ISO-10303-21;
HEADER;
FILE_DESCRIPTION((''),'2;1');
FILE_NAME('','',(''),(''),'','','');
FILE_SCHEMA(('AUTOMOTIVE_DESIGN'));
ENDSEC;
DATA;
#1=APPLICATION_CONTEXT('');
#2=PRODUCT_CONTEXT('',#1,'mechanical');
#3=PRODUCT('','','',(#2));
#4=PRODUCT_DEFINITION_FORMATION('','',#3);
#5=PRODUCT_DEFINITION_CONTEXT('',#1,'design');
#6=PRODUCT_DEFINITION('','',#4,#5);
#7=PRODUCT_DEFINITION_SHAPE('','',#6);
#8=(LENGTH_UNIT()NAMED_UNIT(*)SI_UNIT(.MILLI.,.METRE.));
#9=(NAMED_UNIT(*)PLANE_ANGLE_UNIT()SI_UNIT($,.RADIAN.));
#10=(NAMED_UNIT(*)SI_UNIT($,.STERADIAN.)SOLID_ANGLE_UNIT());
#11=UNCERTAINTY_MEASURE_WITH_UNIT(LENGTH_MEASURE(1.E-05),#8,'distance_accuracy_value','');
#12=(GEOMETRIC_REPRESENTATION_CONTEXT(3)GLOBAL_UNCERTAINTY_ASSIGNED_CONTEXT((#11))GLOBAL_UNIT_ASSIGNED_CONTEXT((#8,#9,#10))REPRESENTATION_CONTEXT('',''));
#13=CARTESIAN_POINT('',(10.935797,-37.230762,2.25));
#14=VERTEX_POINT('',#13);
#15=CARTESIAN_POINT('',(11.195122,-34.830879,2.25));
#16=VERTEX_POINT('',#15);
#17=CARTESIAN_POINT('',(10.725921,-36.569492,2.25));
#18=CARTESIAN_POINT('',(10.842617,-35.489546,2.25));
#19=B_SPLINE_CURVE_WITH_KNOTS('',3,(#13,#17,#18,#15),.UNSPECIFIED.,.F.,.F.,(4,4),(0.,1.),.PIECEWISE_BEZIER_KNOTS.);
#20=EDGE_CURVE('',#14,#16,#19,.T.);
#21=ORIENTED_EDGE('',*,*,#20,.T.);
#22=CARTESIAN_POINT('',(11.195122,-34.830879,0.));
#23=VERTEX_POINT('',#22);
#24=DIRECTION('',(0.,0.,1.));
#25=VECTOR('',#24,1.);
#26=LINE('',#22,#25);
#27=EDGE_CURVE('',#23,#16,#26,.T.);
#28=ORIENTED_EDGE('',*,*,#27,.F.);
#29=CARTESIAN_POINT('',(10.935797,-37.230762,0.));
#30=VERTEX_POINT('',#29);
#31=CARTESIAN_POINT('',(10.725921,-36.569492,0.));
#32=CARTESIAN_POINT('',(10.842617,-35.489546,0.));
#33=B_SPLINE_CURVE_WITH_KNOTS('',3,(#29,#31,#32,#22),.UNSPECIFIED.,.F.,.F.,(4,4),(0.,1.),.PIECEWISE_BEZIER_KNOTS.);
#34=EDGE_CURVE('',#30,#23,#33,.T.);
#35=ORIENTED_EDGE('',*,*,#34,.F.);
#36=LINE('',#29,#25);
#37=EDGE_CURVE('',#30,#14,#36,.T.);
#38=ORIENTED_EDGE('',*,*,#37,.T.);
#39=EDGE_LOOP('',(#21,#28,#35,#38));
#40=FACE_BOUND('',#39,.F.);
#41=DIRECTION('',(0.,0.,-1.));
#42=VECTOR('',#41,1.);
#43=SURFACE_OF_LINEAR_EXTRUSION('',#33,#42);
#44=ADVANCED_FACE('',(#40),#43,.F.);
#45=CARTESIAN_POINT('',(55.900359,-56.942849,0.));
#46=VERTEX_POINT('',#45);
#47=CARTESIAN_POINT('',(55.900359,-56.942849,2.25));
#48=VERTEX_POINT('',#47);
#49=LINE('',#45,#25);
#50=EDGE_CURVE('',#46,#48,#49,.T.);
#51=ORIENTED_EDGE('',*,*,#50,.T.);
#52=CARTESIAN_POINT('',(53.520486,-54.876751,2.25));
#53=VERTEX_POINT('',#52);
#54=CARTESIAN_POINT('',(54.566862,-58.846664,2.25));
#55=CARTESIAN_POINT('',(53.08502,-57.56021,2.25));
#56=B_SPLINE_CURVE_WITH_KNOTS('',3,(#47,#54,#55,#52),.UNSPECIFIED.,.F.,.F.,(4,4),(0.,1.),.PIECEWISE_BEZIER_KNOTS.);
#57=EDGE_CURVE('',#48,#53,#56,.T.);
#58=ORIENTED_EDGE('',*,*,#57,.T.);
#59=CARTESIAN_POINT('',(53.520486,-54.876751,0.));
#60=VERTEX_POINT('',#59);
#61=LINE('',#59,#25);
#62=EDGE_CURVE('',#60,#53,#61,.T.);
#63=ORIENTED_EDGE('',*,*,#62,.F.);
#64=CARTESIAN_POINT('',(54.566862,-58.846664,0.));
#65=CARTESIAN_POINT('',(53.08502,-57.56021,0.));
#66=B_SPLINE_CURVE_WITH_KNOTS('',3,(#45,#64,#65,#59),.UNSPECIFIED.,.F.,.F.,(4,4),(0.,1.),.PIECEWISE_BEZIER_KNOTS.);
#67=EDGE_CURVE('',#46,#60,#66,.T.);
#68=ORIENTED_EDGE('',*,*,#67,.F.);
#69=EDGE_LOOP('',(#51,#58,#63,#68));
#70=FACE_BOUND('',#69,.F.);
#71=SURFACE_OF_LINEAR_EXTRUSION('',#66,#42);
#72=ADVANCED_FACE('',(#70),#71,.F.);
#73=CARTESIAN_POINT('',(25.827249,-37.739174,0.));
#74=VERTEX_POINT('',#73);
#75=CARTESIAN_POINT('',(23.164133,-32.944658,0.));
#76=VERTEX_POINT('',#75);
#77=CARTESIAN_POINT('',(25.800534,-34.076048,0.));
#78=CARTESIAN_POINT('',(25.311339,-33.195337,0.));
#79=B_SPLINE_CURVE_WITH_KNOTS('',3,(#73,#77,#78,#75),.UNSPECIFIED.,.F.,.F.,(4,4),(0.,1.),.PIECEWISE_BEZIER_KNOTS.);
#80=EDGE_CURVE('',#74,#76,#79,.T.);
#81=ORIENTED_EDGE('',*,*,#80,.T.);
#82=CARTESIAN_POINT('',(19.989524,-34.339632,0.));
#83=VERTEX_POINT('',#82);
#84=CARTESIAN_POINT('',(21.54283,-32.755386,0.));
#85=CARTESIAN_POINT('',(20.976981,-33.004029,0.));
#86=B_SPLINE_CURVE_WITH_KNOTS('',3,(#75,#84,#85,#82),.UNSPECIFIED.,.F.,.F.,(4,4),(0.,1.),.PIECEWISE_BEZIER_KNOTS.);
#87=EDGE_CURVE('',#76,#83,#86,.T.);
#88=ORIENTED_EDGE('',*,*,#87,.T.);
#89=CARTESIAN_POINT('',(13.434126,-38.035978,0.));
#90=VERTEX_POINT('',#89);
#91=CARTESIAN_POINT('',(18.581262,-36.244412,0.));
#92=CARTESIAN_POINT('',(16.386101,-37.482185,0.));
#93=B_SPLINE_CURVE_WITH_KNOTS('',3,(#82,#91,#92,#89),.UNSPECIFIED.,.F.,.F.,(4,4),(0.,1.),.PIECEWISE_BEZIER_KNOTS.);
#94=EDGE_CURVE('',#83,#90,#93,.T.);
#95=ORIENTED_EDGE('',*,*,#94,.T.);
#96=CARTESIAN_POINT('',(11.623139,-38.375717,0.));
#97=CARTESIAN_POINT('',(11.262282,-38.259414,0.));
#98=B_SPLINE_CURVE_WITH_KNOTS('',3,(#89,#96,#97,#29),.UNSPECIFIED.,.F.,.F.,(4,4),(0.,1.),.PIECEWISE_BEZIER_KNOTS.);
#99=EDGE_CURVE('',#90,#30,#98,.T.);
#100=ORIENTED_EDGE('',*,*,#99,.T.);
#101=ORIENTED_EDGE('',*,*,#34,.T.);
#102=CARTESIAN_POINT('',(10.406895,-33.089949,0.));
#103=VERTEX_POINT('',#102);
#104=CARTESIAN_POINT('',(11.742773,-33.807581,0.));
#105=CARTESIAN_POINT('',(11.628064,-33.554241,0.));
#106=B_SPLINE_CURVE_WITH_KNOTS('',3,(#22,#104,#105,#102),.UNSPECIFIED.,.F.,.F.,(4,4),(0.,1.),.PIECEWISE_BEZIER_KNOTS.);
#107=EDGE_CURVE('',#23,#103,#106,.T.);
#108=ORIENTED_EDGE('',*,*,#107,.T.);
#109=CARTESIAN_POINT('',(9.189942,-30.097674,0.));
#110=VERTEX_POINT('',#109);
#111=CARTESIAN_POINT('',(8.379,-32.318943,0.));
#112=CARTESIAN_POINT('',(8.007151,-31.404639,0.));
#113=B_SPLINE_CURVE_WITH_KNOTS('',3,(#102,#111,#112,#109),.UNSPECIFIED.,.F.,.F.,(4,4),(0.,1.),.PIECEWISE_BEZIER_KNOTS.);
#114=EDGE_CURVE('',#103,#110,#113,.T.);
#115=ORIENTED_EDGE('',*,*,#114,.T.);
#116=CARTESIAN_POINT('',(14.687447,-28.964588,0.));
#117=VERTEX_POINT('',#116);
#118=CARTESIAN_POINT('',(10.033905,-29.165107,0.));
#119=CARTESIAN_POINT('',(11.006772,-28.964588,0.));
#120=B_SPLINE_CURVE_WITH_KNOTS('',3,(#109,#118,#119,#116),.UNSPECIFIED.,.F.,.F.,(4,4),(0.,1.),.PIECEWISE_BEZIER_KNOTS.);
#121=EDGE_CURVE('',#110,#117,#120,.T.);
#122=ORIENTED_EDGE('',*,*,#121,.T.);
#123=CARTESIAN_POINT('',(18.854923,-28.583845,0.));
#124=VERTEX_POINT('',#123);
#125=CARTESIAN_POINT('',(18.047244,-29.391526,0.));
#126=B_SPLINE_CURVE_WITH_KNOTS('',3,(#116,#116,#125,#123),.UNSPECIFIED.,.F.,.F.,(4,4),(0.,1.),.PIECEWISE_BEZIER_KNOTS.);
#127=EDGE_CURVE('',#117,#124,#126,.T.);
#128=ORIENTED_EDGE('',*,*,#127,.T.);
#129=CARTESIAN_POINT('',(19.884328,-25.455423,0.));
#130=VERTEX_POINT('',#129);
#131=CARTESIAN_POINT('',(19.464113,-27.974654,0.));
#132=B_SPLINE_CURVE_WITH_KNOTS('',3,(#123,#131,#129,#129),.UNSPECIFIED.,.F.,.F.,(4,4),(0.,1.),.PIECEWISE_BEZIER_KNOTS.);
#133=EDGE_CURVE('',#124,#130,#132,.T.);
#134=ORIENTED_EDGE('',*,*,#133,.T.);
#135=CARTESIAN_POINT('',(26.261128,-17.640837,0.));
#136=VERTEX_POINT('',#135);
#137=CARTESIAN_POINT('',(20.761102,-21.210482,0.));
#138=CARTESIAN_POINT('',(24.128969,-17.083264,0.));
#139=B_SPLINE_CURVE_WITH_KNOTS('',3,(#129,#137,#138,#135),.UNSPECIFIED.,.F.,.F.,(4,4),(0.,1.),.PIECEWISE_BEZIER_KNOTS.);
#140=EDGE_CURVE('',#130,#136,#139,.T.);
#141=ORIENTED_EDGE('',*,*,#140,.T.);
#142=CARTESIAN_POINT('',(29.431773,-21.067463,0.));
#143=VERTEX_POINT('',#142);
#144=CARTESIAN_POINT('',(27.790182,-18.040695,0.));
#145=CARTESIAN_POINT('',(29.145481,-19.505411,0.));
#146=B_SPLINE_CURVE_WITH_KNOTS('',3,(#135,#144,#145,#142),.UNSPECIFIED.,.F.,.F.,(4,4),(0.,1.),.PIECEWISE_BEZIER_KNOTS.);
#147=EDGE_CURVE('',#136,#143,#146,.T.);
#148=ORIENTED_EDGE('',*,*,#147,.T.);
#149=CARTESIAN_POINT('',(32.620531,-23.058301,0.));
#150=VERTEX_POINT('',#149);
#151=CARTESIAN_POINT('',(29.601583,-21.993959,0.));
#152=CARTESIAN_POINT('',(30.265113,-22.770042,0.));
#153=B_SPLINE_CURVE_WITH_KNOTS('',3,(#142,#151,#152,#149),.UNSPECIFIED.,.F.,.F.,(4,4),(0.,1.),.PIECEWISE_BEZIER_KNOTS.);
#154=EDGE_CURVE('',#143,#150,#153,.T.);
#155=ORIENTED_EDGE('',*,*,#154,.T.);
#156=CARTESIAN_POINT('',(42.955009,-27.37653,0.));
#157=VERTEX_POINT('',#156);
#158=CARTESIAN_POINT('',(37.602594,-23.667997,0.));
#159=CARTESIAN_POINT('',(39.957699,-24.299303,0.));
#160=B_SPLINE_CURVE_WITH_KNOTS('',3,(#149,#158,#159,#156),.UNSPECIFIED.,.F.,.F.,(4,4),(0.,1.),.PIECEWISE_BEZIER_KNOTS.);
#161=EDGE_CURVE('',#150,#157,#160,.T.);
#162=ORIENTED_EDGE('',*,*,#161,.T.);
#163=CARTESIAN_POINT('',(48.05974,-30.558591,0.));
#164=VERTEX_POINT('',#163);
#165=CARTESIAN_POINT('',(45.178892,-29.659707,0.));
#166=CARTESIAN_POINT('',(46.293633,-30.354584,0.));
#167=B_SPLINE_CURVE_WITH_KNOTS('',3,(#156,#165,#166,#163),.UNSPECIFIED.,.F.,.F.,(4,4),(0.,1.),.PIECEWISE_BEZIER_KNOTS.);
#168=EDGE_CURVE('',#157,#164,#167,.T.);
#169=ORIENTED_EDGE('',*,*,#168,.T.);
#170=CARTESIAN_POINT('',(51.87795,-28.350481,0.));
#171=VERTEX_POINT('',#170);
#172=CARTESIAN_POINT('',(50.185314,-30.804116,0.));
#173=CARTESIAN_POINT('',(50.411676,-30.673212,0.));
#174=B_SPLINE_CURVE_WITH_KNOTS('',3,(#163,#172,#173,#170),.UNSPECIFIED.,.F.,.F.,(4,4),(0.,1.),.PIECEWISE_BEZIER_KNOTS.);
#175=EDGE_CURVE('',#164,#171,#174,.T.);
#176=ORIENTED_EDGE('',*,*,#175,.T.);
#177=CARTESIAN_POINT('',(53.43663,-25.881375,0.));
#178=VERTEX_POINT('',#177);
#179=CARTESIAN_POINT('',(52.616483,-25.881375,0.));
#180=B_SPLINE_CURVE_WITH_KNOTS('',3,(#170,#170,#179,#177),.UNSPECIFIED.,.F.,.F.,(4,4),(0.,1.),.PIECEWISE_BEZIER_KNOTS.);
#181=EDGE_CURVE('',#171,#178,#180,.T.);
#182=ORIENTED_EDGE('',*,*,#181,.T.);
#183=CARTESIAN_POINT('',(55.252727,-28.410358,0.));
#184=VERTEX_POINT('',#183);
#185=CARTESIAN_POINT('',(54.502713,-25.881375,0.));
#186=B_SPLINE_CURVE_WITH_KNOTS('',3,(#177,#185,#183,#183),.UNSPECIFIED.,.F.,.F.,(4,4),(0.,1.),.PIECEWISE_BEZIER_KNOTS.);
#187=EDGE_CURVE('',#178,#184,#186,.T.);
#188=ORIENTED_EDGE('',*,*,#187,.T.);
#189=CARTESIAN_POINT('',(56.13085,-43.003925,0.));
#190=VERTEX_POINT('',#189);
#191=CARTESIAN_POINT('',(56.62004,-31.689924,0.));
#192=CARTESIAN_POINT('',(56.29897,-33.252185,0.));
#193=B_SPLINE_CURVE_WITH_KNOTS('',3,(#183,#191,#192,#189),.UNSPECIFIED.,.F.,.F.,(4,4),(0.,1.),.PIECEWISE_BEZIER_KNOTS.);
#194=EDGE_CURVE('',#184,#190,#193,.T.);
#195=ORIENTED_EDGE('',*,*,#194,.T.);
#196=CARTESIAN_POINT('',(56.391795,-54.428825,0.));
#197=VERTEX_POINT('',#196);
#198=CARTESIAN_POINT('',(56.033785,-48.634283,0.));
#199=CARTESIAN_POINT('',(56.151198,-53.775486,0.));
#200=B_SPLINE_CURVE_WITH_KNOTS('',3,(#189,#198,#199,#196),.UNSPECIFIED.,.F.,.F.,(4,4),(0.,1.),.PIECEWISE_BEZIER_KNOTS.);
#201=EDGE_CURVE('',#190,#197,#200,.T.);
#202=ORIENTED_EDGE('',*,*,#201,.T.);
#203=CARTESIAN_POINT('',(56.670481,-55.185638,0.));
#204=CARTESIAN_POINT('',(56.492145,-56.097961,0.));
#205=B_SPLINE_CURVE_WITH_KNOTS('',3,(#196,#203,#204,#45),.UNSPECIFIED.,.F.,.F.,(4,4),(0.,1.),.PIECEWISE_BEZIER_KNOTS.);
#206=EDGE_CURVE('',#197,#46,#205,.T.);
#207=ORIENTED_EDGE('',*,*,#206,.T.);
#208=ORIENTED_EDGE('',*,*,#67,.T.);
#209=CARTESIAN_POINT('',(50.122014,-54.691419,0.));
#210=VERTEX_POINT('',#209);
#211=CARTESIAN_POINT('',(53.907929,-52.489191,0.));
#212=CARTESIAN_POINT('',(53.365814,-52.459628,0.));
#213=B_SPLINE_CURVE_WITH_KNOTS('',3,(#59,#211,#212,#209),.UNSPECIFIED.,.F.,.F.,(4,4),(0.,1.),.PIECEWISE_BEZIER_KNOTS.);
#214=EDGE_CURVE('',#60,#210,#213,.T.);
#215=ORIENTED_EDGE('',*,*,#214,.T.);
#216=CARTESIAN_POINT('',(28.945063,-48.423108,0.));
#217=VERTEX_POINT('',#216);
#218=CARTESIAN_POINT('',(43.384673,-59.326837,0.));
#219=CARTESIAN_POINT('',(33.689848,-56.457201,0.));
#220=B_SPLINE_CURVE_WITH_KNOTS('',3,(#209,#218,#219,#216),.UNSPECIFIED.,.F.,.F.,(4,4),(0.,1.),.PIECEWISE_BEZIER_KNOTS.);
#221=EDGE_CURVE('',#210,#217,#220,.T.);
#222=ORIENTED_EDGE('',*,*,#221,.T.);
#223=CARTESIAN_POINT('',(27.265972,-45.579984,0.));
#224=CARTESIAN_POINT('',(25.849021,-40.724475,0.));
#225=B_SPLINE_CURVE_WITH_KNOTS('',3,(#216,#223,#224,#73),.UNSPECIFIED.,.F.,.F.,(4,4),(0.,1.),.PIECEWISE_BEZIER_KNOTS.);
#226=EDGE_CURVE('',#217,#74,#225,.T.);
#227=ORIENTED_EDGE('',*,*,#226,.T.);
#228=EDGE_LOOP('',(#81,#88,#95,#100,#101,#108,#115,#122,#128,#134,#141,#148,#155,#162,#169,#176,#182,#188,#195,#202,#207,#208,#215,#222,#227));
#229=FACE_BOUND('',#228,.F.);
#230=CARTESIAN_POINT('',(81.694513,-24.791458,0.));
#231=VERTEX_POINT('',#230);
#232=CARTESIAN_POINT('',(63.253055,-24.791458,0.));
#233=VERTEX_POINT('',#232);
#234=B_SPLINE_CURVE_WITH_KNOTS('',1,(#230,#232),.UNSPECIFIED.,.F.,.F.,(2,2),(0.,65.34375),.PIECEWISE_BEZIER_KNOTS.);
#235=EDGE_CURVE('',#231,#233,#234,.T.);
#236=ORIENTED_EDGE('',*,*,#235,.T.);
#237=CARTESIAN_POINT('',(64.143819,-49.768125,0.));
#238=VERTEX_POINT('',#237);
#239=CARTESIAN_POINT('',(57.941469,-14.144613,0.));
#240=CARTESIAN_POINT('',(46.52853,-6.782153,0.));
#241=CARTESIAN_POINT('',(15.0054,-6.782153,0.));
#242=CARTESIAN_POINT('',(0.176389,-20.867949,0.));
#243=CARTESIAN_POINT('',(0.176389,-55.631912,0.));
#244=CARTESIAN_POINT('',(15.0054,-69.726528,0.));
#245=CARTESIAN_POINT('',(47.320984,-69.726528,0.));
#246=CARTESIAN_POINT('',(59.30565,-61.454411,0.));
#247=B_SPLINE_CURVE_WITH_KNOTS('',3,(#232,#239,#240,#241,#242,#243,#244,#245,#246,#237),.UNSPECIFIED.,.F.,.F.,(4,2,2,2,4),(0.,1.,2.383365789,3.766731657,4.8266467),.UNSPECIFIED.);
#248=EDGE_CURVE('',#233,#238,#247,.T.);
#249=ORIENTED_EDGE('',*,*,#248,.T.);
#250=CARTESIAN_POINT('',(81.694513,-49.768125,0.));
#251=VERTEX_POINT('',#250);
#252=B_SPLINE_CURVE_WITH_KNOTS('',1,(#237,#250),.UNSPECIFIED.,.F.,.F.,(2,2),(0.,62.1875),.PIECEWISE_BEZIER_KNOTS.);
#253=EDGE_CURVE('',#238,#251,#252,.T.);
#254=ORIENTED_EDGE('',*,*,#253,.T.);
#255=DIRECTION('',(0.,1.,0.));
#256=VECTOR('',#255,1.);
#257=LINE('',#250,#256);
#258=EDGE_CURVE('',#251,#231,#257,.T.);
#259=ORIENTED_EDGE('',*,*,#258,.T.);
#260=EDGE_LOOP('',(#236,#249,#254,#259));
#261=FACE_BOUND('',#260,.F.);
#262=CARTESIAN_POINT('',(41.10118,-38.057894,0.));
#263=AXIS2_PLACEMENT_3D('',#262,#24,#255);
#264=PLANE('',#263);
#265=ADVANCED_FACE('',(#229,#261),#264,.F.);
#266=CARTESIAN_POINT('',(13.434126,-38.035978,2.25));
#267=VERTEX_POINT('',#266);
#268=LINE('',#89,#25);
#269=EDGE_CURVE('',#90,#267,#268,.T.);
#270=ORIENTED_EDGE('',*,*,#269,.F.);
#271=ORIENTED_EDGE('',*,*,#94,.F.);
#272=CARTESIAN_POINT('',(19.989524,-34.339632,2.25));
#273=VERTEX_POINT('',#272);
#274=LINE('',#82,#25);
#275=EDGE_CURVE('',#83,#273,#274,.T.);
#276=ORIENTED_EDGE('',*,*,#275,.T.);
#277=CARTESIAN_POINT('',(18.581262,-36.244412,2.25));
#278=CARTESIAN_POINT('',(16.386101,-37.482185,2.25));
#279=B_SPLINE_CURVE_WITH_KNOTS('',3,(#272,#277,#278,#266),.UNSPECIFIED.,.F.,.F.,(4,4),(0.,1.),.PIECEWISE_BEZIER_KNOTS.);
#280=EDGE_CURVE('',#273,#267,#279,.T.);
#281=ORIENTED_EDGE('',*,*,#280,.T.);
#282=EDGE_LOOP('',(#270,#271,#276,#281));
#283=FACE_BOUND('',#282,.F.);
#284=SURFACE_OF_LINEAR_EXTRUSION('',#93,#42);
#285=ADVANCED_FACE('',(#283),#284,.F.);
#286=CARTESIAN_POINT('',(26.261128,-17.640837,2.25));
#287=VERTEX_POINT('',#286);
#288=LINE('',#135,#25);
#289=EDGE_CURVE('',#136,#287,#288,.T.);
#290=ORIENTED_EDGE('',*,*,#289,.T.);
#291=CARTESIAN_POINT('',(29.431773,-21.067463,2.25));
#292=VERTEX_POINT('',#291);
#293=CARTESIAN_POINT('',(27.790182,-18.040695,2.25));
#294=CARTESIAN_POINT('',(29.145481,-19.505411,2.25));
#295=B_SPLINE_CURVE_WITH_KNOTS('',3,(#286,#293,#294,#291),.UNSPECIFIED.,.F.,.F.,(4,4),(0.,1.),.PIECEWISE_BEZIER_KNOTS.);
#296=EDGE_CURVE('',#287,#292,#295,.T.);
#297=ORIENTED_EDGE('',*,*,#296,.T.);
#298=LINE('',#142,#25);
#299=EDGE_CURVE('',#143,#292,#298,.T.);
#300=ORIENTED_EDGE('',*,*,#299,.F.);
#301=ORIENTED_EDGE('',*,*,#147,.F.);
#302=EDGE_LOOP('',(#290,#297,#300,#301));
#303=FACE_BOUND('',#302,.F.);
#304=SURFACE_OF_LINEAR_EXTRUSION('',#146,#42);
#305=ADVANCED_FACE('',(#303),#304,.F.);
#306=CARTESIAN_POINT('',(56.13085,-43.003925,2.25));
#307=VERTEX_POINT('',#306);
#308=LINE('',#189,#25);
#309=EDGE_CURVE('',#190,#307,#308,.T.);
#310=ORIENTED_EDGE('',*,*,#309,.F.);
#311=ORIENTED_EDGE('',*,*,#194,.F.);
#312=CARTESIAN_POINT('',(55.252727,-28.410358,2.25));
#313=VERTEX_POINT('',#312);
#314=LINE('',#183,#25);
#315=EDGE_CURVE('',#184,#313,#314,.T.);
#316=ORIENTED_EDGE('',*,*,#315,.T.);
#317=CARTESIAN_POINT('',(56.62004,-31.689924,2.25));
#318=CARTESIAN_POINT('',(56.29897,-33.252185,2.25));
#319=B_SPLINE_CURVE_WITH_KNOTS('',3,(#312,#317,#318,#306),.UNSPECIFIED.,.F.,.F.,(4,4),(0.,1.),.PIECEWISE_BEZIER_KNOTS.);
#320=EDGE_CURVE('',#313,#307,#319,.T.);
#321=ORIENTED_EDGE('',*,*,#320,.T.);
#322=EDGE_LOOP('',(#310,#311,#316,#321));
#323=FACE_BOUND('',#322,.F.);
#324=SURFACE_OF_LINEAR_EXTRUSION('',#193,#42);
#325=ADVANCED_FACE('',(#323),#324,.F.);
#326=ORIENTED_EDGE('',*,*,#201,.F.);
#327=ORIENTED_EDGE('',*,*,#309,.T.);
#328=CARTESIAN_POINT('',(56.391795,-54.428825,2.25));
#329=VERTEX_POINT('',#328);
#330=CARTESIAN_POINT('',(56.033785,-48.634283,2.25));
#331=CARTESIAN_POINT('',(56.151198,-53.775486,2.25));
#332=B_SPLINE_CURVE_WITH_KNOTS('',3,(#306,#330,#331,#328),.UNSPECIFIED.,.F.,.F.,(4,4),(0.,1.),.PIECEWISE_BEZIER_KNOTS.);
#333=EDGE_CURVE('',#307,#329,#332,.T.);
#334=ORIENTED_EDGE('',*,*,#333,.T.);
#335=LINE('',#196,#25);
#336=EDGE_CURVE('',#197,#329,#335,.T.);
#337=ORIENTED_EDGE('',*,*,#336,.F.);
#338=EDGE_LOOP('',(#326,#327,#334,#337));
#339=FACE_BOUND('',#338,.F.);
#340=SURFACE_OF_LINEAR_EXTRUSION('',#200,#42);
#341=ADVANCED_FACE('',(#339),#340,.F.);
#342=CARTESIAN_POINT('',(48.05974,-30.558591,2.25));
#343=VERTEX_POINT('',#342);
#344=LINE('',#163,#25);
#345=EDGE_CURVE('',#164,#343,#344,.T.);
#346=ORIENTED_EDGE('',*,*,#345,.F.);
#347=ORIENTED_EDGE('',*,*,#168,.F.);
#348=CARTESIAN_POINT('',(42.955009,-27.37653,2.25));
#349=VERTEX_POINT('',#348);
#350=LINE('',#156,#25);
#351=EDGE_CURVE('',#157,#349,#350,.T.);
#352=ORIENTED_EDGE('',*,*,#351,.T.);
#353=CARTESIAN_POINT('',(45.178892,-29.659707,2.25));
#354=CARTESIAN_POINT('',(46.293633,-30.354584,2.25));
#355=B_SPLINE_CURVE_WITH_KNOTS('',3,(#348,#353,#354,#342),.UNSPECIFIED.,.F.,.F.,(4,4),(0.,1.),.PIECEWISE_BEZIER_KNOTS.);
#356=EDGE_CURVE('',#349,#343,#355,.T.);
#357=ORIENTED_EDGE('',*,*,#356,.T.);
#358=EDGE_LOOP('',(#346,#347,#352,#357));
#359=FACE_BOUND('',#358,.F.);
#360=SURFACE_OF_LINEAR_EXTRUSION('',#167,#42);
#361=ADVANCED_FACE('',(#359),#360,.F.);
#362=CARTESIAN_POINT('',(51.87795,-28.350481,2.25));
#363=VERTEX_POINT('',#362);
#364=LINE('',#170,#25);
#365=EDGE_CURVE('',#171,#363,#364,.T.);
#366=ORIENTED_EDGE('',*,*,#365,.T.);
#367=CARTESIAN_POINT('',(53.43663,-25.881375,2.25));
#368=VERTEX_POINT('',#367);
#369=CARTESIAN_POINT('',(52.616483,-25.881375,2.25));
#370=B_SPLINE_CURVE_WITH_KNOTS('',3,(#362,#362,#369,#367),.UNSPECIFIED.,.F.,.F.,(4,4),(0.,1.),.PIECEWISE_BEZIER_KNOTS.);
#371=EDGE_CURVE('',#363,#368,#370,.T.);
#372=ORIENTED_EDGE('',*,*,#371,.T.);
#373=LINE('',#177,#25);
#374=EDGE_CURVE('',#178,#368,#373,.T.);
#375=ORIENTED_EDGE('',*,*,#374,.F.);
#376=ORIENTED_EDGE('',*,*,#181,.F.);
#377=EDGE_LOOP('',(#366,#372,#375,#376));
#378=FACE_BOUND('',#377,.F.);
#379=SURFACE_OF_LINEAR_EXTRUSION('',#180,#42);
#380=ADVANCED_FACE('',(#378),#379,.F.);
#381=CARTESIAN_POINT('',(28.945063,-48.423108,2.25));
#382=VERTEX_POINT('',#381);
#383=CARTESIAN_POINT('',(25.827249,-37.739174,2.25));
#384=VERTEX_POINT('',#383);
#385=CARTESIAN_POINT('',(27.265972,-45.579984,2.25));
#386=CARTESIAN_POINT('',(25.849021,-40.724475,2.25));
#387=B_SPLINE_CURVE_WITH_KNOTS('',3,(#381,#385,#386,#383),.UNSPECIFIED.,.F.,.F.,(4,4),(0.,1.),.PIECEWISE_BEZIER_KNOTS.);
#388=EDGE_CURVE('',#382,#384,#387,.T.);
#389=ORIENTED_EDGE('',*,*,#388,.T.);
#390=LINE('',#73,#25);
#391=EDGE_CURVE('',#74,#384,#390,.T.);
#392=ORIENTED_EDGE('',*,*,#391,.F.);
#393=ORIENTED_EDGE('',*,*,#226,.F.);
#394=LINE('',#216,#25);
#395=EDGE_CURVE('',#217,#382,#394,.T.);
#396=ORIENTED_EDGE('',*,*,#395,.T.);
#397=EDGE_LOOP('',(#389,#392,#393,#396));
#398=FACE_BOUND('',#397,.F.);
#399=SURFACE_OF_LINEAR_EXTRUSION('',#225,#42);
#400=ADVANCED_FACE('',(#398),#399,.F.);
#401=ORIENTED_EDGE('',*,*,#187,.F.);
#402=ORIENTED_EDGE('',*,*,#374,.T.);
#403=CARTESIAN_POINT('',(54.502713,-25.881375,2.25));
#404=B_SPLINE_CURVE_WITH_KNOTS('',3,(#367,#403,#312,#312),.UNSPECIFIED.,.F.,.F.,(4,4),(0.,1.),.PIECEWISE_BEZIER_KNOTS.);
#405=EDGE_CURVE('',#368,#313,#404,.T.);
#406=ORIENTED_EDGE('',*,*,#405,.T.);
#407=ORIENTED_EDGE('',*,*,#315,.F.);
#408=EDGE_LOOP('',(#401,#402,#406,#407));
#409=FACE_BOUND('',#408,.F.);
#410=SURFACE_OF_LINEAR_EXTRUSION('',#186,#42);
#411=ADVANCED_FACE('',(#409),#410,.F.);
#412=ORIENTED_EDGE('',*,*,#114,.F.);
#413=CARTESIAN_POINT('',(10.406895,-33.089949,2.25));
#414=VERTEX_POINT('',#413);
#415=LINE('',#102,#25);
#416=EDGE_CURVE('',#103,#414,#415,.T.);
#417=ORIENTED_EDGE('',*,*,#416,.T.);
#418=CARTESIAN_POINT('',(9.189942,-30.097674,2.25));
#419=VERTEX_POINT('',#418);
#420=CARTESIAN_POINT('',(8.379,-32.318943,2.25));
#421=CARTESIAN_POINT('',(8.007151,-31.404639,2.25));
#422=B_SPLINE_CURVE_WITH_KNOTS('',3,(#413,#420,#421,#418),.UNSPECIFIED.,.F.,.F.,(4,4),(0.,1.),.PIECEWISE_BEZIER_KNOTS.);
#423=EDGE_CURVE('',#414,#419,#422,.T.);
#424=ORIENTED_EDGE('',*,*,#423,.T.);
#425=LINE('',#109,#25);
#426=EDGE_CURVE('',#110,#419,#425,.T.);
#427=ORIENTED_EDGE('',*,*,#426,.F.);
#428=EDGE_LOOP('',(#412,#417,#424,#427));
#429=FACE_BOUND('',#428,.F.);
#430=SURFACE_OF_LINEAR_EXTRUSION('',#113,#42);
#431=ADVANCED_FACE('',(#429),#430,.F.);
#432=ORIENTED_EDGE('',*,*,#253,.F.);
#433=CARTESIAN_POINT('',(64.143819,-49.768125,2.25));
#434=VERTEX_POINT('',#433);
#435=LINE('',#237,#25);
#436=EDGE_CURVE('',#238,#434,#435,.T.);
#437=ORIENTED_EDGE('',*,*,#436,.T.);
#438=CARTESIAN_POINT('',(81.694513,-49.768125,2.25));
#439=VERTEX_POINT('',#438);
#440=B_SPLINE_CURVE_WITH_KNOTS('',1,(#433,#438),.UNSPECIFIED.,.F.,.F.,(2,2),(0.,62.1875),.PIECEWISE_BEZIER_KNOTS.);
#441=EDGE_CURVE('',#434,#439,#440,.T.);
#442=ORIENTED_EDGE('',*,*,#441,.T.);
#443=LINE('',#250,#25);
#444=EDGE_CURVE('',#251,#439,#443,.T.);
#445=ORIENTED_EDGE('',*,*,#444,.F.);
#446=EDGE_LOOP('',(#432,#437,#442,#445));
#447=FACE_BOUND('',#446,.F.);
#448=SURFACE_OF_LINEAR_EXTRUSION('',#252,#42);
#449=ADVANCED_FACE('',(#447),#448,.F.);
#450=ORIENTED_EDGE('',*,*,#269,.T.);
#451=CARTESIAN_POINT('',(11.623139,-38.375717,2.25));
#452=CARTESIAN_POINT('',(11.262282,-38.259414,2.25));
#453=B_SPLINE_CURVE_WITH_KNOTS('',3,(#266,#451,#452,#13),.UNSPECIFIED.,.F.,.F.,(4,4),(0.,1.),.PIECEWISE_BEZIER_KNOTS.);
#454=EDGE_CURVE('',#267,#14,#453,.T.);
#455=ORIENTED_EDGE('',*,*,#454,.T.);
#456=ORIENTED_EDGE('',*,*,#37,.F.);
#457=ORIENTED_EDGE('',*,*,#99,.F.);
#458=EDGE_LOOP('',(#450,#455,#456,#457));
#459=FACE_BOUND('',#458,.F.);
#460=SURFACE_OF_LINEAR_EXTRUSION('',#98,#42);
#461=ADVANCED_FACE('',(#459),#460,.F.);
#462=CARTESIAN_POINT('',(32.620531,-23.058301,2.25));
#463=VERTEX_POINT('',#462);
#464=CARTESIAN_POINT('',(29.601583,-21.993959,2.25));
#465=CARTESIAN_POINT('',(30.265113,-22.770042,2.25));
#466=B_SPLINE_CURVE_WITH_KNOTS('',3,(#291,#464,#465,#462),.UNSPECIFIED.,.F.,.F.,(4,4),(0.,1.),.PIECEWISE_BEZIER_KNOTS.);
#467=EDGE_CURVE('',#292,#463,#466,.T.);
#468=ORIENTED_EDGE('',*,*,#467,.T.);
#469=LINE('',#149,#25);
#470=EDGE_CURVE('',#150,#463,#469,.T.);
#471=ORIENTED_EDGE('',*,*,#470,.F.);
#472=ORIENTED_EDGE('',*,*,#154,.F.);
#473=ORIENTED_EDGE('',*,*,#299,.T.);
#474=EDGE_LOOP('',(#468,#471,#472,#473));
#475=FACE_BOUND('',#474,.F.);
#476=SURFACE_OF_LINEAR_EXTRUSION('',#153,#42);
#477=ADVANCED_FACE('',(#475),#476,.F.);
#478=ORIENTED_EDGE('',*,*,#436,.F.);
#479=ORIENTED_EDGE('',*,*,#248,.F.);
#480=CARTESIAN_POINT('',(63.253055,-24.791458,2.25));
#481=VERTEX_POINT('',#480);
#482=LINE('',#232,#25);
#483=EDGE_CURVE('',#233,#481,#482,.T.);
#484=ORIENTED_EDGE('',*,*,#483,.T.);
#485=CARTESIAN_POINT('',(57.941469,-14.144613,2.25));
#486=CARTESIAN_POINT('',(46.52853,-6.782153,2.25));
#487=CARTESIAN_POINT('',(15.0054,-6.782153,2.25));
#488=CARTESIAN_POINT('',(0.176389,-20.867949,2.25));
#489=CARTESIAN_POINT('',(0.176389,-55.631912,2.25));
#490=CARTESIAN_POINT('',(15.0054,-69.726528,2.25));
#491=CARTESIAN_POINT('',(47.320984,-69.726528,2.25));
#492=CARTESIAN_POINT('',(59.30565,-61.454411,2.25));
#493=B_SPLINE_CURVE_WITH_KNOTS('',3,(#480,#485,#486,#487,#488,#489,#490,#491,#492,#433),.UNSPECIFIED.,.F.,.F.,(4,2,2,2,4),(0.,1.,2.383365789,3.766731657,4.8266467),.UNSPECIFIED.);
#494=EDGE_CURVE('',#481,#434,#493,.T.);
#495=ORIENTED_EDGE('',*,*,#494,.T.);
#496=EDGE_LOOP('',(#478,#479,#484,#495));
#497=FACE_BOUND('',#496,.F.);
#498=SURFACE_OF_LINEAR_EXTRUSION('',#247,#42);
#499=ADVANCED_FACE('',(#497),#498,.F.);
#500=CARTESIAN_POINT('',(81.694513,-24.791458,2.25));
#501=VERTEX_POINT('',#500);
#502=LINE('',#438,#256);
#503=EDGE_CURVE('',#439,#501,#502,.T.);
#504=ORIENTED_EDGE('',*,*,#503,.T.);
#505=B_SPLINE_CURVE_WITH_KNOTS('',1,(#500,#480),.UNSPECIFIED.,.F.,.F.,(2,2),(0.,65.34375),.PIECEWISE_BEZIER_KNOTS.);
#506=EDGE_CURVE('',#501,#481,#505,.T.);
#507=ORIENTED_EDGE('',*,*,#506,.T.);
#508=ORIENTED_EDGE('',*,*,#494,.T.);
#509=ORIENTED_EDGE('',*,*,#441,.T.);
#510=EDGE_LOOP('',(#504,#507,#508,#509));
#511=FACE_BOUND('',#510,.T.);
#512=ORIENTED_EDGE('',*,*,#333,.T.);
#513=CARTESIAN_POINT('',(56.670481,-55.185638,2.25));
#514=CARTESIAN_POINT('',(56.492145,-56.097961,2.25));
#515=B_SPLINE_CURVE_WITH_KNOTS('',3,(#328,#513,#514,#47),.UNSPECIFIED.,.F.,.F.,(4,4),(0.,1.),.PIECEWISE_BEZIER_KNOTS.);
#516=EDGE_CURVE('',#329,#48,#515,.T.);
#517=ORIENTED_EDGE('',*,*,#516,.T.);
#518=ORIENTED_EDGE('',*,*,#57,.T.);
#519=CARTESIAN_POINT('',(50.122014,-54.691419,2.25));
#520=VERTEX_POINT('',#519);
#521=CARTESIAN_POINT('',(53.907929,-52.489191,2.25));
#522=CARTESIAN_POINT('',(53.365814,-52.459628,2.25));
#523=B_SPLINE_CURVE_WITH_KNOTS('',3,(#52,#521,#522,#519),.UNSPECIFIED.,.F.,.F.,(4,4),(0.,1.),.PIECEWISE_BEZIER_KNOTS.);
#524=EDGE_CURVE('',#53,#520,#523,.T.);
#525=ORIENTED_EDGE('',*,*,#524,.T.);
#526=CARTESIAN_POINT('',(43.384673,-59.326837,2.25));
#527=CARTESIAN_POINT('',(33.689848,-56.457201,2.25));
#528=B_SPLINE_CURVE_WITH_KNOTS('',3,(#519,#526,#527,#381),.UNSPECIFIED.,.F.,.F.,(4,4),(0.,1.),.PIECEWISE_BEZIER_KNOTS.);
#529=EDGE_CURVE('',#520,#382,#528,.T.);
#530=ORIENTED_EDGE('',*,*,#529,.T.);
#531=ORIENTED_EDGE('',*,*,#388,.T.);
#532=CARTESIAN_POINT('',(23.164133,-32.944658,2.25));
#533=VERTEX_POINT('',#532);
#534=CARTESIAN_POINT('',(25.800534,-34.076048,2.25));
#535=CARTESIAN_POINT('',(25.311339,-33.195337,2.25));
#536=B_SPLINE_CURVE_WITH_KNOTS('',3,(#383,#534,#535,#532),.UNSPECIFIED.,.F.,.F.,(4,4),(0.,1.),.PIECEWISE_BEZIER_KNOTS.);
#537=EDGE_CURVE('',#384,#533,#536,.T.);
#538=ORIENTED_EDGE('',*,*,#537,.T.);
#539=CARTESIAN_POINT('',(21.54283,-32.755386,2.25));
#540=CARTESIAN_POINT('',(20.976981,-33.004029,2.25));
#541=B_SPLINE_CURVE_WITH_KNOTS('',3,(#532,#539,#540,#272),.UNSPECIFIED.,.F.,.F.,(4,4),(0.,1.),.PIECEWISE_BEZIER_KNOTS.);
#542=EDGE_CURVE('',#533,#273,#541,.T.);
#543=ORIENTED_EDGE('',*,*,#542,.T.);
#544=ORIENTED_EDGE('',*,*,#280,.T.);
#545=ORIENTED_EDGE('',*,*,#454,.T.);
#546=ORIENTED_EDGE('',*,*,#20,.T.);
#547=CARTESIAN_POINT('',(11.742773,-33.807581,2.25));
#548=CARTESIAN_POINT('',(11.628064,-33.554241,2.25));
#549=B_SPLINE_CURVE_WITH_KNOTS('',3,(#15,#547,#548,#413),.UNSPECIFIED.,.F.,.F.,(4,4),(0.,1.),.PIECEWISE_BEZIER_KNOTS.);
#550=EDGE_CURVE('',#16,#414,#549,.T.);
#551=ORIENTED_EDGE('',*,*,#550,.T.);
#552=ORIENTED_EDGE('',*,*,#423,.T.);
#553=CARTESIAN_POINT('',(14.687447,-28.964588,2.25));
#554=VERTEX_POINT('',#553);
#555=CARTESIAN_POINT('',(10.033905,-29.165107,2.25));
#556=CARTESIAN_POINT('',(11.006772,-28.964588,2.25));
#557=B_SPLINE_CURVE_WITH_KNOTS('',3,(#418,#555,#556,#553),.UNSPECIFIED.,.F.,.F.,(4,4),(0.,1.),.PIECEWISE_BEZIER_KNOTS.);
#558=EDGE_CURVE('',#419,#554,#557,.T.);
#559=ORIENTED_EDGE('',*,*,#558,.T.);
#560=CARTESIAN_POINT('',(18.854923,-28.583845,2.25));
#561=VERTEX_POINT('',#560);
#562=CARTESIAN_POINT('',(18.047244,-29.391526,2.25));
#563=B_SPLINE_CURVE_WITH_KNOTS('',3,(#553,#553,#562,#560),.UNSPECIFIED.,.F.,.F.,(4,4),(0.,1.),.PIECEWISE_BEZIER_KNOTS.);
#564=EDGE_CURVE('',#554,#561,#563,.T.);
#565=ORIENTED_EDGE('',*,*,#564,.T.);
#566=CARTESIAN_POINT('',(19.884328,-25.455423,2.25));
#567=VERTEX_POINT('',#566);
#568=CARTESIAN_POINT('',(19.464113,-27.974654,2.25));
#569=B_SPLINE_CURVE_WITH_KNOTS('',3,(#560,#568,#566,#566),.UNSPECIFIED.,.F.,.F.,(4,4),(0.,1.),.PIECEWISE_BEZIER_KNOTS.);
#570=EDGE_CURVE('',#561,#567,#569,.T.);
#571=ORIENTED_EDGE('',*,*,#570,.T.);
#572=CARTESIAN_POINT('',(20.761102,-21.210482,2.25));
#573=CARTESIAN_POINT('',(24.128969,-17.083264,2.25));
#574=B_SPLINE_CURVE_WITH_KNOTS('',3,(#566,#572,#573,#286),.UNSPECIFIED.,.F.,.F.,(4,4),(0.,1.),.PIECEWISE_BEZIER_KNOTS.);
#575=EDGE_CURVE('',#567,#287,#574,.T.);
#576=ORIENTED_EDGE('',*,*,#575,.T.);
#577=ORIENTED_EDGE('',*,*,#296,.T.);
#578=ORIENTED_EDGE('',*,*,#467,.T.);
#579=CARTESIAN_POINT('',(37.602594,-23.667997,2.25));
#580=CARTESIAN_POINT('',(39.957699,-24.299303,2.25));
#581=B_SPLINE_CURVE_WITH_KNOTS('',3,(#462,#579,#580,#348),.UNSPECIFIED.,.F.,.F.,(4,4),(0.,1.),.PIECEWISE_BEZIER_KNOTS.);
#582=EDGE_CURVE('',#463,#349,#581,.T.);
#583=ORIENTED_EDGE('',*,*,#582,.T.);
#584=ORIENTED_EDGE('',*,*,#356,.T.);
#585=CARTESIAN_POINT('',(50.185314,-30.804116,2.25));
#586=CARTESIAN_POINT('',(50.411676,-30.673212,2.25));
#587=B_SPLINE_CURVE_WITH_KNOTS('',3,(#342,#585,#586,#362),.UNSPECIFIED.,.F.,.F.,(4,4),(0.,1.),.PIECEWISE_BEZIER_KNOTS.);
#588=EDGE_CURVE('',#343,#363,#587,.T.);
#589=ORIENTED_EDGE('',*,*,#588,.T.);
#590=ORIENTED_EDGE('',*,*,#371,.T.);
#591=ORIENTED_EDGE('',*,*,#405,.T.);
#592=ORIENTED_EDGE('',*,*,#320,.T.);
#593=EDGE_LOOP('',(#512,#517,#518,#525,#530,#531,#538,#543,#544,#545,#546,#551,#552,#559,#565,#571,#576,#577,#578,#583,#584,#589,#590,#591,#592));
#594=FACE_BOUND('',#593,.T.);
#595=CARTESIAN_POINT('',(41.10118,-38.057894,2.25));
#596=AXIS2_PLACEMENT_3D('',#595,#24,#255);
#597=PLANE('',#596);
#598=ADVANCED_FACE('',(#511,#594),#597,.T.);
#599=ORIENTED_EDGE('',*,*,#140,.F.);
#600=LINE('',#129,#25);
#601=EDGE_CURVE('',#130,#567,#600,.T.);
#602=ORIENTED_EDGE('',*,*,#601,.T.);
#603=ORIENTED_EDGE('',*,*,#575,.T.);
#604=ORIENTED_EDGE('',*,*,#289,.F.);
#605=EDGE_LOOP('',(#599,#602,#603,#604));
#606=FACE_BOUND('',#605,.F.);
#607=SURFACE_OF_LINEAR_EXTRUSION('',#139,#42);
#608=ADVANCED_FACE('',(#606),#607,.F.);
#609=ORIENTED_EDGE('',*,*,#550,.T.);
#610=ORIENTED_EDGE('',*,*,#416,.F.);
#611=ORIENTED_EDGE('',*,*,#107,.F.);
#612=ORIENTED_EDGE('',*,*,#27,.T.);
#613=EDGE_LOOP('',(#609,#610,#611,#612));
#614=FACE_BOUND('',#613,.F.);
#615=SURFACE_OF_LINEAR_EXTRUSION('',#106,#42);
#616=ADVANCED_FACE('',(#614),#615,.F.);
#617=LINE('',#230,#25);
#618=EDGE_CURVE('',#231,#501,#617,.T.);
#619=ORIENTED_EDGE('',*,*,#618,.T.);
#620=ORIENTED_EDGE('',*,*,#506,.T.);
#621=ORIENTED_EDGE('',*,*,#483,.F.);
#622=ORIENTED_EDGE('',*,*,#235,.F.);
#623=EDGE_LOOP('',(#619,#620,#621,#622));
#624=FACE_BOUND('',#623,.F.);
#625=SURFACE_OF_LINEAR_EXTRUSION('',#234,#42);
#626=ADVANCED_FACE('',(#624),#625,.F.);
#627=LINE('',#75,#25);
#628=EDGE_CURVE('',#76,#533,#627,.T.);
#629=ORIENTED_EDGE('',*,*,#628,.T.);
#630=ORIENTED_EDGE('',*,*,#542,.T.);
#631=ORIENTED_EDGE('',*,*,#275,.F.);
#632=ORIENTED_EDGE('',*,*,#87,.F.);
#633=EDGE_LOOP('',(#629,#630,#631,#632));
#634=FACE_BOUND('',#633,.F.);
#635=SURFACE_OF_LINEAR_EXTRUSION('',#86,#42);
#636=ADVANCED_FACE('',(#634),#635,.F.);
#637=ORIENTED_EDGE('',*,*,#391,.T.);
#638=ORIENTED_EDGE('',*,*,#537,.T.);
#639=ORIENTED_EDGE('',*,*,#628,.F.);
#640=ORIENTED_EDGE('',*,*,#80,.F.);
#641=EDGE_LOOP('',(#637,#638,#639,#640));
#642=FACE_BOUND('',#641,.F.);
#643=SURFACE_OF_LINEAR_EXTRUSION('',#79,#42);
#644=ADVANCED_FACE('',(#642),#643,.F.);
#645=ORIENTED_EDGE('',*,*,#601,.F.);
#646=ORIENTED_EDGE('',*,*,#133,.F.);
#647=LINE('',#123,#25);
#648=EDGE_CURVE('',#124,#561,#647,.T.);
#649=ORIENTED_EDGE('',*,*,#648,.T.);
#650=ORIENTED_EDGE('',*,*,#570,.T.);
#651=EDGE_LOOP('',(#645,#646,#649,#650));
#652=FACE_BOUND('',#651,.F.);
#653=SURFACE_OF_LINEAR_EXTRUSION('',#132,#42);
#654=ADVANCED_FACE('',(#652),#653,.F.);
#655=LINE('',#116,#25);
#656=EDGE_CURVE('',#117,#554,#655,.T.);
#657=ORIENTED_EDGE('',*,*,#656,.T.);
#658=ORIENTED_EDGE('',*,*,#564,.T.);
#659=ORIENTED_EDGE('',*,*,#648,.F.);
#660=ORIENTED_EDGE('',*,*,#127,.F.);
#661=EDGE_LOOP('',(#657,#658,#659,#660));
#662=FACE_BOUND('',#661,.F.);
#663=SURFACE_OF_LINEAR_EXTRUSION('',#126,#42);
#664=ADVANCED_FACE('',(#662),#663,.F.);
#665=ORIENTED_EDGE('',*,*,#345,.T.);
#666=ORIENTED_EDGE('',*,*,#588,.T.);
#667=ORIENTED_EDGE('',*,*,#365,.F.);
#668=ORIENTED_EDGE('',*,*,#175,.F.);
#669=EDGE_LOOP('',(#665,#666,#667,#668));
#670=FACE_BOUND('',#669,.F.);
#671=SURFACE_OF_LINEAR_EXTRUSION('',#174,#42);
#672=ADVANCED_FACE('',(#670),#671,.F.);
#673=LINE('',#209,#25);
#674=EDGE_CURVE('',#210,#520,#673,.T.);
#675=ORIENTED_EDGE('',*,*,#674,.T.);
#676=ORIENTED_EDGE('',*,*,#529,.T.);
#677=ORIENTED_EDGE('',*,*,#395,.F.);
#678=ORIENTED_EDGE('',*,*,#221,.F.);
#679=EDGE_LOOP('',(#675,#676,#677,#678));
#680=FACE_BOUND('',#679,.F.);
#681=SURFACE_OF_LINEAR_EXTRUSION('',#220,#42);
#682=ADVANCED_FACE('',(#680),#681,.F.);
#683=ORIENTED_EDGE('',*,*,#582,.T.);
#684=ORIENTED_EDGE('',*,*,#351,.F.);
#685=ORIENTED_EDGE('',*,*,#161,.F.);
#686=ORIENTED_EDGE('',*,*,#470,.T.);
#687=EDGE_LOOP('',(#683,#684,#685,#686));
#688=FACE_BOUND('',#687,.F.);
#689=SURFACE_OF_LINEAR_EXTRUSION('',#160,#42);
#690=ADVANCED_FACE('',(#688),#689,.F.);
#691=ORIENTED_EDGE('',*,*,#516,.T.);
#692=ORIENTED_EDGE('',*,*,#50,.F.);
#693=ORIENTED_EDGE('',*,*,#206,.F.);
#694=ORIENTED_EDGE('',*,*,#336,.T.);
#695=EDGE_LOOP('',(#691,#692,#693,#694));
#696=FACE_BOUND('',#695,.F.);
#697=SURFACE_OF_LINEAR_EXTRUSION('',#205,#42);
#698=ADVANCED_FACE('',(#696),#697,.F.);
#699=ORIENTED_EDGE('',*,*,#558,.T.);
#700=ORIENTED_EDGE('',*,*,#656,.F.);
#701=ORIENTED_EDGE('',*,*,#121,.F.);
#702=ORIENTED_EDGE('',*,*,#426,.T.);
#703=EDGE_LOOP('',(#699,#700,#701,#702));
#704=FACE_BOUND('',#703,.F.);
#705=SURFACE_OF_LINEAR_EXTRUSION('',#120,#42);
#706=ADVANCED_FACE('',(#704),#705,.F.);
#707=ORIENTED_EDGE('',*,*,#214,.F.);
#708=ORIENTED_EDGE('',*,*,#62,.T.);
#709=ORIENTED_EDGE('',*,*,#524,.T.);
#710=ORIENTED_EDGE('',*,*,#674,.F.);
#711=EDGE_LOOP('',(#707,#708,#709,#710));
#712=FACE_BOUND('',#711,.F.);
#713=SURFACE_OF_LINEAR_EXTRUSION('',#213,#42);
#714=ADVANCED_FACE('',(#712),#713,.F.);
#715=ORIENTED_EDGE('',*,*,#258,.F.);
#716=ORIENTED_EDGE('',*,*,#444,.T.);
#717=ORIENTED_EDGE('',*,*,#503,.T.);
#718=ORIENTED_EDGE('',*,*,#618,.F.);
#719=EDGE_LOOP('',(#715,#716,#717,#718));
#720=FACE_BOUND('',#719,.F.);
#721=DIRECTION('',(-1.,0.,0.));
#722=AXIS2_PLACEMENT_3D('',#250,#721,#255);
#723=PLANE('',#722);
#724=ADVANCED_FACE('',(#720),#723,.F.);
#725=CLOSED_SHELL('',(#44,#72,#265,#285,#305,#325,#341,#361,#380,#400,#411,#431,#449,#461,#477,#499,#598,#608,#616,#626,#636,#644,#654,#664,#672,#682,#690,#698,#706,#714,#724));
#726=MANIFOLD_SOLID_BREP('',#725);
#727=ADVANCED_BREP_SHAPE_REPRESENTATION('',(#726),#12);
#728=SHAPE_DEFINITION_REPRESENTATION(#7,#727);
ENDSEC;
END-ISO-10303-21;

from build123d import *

# Parameters (mm, degrees)
EXTRUDE_DEPTH    = 2.25
EXTRUDE001_DEPTH = 2.25


with BuildPart() as extrude_body:
    # path2421 → Extrude (new body)
    with BuildSketch(Plane(origin=(32.471484, -37.678158, 0), x_dir=(0, -1, 0), z_dir=(0, 0, -1))):
        with BuildLine():
            add(Edge.make_bspline(
                [(19.264691, -23.428875), (21.168506, -22.095378), (19.882052, -20.613536), (17.198593, -21.049002)],
                knots=[0, 0, 0, 0, 1, 1, 1, 1], degree=3))
            add(Edge.make_bspline(
                [(17.198593, -21.049002), (14.811033, -21.436445), (14.78147, -20.89433), (17.013261, -17.65053)],
                knots=[0, 0, 0, 0, 1, 1, 1, 1], degree=3))
            add(Edge.make_bspline(
                [(17.013261, -17.65053), (21.648679, -10.913189), (18.779043, -1.218364), (10.74495, 3.526421)],
                knots=[0, 0, 0, 0, 1, 1, 1, 1], degree=3))
            add(Edge.make_bspline(
                [(10.74495, 3.526421), (7.901826, 5.205512), (3.046317, 6.622463), (0.061016, 6.644235)],
                knots=[0, 0, 0, 0, 1, 1, 1, 1], degree=3))
            add(Edge.make_bspline(
                [(0.061016, 6.644235), (-3.60211, 6.67095), (-4.482821, 7.160145), (-4.7335, 9.307351)],
                knots=[0, 0, 0, 0, 1, 1, 1, 1], degree=3))
            add(Edge.make_bspline(
                [(-4.7335, 9.307351), (-4.922772, 10.928654), (-4.674129, 11.494503), (-3.338526, 12.48196)],
                knots=[0, 0, 0, 0, 1, 1, 1, 1], degree=3))
            add(Edge.make_bspline(
                [(-3.338526, 12.48196), (-1.433746, 13.890222), (-0.195973, 16.085383), (0.35782, 19.037358)],
                knots=[0, 0, 0, 0, 1, 1, 1, 1], degree=3))
            add(Edge.make_bspline(
                [(0.35782, 19.037358), (0.697559, 20.848345), (0.581256, 21.209202), (-0.447396, 21.535687)],
                knots=[0, 0, 0, 0, 1, 1, 1, 1], degree=3))
            add(Edge.make_bspline(
                [(-0.447396, 21.535687), (-1.108666, 21.745563), (-2.188612, 21.628867), (-2.847279, 21.276362)],
                knots=[0, 0, 0, 0, 1, 1, 1, 1], degree=3))
            add(Edge.make_bspline(
                [(-2.847279, 21.276362), (-3.870577, 20.728711), (-4.123917, 20.84342), (-4.588209, 22.064589)],
                knots=[0, 0, 0, 0, 1, 1, 1, 1], degree=3))
            add(Edge.make_bspline(
                [(-4.588209, 22.064589), (-5.359215, 24.092484), (-6.273519, 24.464333), (-7.580484, 23.281542)],
                knots=[0, 0, 0, 0, 1, 1, 1, 1], degree=3))
            add(Edge.make_bspline(
                [(-7.580484, 23.281542), (-8.513051, 22.437579), (-8.71357, 21.464712), (-8.71357, 17.784037)],
                knots=[0, 0, 0, 0, 1, 1, 1, 1], degree=3))
            add(Edge.make_bspline(
                [(-8.71357, 17.784037), (-8.71357, 17.784037), (-8.286632, 14.42424), (-9.094313, 13.616561)],
                knots=[0, 0, 0, 0, 1, 1, 1, 1], degree=3))
            add(Edge.make_bspline(
                [(-9.094313, 13.616561), (-9.703504, 13.007371), (-12.222735, 12.587156), (-12.222735, 12.587156)],
                knots=[0, 0, 0, 0, 1, 1, 1, 1], degree=3))
            add(Edge.make_bspline(
                [(-12.222735, 12.587156), (-16.467676, 11.710382), (-20.594894, 8.342515), (-20.037321, 6.210356)],
                knots=[0, 0, 0, 0, 1, 1, 1, 1], degree=3))
            add(Edge.make_bspline(
                [(-20.037321, 6.210356), (-19.637463, 4.681302), (-18.172747, 3.326003), (-16.610695, 3.039711)],
                knots=[0, 0, 0, 0, 1, 1, 1, 1], degree=3))
            add(Edge.make_bspline(
                [(-16.610695, 3.039711), (-15.684199, 2.869901), (-14.908116, 2.206371), (-14.619857, -0.149047)],
                knots=[0, 0, 0, 0, 1, 1, 1, 1], degree=3))
            add(Edge.make_bspline(
                [(-14.619857, -0.149047), (-14.010161, -5.13111), (-13.378855, -7.486215), (-10.301628, -10.483525)],
                knots=[0, 0, 0, 0, 1, 1, 1, 1], degree=3))
            add(Edge.make_bspline(
                [(-10.301628, -10.483525), (-8.018451, -12.707408), (-7.323574, -13.822149), (-7.119567, -15.588256)],
                knots=[0, 0, 0, 0, 1, 1, 1, 1], degree=3))
            add(Edge.make_bspline(
                [(-7.119567, -15.588256), (-6.874042, -17.71383), (-7.004946, -17.940192), (-9.327677, -19.406466)],
                knots=[0, 0, 0, 0, 1, 1, 1, 1], degree=3))
            add(Edge.make_bspline(
                [(-9.327677, -19.406466), (-9.327677, -19.406466), (-11.796783, -20.144999), (-11.796783, -20.965146)],
                knots=[0, 0, 0, 0, 1, 1, 1, 1], degree=3))
            add(Edge.make_bspline(
                [(-11.796783, -20.965146), (-11.796783, -22.031229), (-9.2678, -22.781243), (-9.2678, -22.781243)],
                knots=[0, 0, 0, 0, 1, 1, 1, 1], degree=3))
            add(Edge.make_bspline(
                [(-9.2678, -22.781243), (-5.988234, -24.148556), (-4.425973, -23.827486), (5.325767, -23.659366)],
                knots=[0, 0, 0, 0, 1, 1, 1, 1], degree=3))
            add(Edge.make_bspline(
                [(5.325767, -23.659366), (10.956125, -23.562301), (16.097328, -23.679714), (16.750667, -23.920311)],
                knots=[0, 0, 0, 0, 1, 1, 1, 1], degree=3))
            add(Edge.make_bspline(
                [(16.750667, -23.920311), (17.50748, -24.198997), (18.419803, -24.020661), (19.264691, -23.428875)],
                knots=[0, 0, 0, 0, 1, 1, 1, 1], degree=3))
        make_face()
    extrude(amount=-EXTRUDE_DEPTH)


with BuildPart() as cut:
    # path2987 → Extrude001 (new body)
    with BuildSketch(Plane(origin=(40.935451, -38.25434, 0), x_dir=(0, 1, 0), z_dir=(0, 0, 1))):
        with BuildLine():
            add(Edge.make_bspline(
                [(31.472187, 7.633229), (31.472187, 25.930051), (17.386391, 40.759062), (0.00441, 40.759062)],
                knots=[0, 0, 0, 0, 1, 1, 1, 1], degree=3))
            add(Edge.make_bspline(
                [(0.00441, 40.759062), (-17.377572, 40.759062), (-31.472188, 25.930051), (-31.472188, 7.633229)],
                knots=[0, 0, 0, 0, 1, 1, 1, 1], degree=3))
            add(Edge.make_bspline(
                [(-31.472188, 7.633229), (-31.472188, -6.385533), (-23.200071, -18.370199), (-11.513785, -23.208368)],
                knots=[0, 0, 0, 0, 1, 1, 1, 1], degree=3))
            add(Edge.make_bspline(
                [(-11.513785, -23.208368), (-11.513785, -40.759062)],
                knots=[0, 0, 62.1875, 62.1875], degree=1))
            add(Edge.make_bspline(
                [(-11.513785, -40.759062), (0.992187, -40.759062)],
                knots=[0, 0, 44.3125, 44.3125], degree=1))
            add(Edge.make_bspline(
                [(0.992187, -40.759062), (13.462882, -40.759062)],
                knots=[0, 0, 44.1875, 44.1875], degree=1))
            add(Edge.make_bspline(
                [(13.462882, -40.759062), (13.462882, -22.317604)],
                knots=[0, 0, 65.34375, 65.34375], degree=1))
            add(Edge.make_bspline(
                [(13.462882, -22.317604), (24.109727, -17.006018), (31.472187, -5.593079), (31.472187, 7.633229)],
                knots=[0, 0, 0, 0, 1, 1, 1, 1], degree=3))
        make_face()
    extrude(amount=EXTRUDE001_DEPTH)

    # Cut: cut Extrude body
    add(extrude_body.part, mode=Mode.SUBTRACT)


solid = cut.part
